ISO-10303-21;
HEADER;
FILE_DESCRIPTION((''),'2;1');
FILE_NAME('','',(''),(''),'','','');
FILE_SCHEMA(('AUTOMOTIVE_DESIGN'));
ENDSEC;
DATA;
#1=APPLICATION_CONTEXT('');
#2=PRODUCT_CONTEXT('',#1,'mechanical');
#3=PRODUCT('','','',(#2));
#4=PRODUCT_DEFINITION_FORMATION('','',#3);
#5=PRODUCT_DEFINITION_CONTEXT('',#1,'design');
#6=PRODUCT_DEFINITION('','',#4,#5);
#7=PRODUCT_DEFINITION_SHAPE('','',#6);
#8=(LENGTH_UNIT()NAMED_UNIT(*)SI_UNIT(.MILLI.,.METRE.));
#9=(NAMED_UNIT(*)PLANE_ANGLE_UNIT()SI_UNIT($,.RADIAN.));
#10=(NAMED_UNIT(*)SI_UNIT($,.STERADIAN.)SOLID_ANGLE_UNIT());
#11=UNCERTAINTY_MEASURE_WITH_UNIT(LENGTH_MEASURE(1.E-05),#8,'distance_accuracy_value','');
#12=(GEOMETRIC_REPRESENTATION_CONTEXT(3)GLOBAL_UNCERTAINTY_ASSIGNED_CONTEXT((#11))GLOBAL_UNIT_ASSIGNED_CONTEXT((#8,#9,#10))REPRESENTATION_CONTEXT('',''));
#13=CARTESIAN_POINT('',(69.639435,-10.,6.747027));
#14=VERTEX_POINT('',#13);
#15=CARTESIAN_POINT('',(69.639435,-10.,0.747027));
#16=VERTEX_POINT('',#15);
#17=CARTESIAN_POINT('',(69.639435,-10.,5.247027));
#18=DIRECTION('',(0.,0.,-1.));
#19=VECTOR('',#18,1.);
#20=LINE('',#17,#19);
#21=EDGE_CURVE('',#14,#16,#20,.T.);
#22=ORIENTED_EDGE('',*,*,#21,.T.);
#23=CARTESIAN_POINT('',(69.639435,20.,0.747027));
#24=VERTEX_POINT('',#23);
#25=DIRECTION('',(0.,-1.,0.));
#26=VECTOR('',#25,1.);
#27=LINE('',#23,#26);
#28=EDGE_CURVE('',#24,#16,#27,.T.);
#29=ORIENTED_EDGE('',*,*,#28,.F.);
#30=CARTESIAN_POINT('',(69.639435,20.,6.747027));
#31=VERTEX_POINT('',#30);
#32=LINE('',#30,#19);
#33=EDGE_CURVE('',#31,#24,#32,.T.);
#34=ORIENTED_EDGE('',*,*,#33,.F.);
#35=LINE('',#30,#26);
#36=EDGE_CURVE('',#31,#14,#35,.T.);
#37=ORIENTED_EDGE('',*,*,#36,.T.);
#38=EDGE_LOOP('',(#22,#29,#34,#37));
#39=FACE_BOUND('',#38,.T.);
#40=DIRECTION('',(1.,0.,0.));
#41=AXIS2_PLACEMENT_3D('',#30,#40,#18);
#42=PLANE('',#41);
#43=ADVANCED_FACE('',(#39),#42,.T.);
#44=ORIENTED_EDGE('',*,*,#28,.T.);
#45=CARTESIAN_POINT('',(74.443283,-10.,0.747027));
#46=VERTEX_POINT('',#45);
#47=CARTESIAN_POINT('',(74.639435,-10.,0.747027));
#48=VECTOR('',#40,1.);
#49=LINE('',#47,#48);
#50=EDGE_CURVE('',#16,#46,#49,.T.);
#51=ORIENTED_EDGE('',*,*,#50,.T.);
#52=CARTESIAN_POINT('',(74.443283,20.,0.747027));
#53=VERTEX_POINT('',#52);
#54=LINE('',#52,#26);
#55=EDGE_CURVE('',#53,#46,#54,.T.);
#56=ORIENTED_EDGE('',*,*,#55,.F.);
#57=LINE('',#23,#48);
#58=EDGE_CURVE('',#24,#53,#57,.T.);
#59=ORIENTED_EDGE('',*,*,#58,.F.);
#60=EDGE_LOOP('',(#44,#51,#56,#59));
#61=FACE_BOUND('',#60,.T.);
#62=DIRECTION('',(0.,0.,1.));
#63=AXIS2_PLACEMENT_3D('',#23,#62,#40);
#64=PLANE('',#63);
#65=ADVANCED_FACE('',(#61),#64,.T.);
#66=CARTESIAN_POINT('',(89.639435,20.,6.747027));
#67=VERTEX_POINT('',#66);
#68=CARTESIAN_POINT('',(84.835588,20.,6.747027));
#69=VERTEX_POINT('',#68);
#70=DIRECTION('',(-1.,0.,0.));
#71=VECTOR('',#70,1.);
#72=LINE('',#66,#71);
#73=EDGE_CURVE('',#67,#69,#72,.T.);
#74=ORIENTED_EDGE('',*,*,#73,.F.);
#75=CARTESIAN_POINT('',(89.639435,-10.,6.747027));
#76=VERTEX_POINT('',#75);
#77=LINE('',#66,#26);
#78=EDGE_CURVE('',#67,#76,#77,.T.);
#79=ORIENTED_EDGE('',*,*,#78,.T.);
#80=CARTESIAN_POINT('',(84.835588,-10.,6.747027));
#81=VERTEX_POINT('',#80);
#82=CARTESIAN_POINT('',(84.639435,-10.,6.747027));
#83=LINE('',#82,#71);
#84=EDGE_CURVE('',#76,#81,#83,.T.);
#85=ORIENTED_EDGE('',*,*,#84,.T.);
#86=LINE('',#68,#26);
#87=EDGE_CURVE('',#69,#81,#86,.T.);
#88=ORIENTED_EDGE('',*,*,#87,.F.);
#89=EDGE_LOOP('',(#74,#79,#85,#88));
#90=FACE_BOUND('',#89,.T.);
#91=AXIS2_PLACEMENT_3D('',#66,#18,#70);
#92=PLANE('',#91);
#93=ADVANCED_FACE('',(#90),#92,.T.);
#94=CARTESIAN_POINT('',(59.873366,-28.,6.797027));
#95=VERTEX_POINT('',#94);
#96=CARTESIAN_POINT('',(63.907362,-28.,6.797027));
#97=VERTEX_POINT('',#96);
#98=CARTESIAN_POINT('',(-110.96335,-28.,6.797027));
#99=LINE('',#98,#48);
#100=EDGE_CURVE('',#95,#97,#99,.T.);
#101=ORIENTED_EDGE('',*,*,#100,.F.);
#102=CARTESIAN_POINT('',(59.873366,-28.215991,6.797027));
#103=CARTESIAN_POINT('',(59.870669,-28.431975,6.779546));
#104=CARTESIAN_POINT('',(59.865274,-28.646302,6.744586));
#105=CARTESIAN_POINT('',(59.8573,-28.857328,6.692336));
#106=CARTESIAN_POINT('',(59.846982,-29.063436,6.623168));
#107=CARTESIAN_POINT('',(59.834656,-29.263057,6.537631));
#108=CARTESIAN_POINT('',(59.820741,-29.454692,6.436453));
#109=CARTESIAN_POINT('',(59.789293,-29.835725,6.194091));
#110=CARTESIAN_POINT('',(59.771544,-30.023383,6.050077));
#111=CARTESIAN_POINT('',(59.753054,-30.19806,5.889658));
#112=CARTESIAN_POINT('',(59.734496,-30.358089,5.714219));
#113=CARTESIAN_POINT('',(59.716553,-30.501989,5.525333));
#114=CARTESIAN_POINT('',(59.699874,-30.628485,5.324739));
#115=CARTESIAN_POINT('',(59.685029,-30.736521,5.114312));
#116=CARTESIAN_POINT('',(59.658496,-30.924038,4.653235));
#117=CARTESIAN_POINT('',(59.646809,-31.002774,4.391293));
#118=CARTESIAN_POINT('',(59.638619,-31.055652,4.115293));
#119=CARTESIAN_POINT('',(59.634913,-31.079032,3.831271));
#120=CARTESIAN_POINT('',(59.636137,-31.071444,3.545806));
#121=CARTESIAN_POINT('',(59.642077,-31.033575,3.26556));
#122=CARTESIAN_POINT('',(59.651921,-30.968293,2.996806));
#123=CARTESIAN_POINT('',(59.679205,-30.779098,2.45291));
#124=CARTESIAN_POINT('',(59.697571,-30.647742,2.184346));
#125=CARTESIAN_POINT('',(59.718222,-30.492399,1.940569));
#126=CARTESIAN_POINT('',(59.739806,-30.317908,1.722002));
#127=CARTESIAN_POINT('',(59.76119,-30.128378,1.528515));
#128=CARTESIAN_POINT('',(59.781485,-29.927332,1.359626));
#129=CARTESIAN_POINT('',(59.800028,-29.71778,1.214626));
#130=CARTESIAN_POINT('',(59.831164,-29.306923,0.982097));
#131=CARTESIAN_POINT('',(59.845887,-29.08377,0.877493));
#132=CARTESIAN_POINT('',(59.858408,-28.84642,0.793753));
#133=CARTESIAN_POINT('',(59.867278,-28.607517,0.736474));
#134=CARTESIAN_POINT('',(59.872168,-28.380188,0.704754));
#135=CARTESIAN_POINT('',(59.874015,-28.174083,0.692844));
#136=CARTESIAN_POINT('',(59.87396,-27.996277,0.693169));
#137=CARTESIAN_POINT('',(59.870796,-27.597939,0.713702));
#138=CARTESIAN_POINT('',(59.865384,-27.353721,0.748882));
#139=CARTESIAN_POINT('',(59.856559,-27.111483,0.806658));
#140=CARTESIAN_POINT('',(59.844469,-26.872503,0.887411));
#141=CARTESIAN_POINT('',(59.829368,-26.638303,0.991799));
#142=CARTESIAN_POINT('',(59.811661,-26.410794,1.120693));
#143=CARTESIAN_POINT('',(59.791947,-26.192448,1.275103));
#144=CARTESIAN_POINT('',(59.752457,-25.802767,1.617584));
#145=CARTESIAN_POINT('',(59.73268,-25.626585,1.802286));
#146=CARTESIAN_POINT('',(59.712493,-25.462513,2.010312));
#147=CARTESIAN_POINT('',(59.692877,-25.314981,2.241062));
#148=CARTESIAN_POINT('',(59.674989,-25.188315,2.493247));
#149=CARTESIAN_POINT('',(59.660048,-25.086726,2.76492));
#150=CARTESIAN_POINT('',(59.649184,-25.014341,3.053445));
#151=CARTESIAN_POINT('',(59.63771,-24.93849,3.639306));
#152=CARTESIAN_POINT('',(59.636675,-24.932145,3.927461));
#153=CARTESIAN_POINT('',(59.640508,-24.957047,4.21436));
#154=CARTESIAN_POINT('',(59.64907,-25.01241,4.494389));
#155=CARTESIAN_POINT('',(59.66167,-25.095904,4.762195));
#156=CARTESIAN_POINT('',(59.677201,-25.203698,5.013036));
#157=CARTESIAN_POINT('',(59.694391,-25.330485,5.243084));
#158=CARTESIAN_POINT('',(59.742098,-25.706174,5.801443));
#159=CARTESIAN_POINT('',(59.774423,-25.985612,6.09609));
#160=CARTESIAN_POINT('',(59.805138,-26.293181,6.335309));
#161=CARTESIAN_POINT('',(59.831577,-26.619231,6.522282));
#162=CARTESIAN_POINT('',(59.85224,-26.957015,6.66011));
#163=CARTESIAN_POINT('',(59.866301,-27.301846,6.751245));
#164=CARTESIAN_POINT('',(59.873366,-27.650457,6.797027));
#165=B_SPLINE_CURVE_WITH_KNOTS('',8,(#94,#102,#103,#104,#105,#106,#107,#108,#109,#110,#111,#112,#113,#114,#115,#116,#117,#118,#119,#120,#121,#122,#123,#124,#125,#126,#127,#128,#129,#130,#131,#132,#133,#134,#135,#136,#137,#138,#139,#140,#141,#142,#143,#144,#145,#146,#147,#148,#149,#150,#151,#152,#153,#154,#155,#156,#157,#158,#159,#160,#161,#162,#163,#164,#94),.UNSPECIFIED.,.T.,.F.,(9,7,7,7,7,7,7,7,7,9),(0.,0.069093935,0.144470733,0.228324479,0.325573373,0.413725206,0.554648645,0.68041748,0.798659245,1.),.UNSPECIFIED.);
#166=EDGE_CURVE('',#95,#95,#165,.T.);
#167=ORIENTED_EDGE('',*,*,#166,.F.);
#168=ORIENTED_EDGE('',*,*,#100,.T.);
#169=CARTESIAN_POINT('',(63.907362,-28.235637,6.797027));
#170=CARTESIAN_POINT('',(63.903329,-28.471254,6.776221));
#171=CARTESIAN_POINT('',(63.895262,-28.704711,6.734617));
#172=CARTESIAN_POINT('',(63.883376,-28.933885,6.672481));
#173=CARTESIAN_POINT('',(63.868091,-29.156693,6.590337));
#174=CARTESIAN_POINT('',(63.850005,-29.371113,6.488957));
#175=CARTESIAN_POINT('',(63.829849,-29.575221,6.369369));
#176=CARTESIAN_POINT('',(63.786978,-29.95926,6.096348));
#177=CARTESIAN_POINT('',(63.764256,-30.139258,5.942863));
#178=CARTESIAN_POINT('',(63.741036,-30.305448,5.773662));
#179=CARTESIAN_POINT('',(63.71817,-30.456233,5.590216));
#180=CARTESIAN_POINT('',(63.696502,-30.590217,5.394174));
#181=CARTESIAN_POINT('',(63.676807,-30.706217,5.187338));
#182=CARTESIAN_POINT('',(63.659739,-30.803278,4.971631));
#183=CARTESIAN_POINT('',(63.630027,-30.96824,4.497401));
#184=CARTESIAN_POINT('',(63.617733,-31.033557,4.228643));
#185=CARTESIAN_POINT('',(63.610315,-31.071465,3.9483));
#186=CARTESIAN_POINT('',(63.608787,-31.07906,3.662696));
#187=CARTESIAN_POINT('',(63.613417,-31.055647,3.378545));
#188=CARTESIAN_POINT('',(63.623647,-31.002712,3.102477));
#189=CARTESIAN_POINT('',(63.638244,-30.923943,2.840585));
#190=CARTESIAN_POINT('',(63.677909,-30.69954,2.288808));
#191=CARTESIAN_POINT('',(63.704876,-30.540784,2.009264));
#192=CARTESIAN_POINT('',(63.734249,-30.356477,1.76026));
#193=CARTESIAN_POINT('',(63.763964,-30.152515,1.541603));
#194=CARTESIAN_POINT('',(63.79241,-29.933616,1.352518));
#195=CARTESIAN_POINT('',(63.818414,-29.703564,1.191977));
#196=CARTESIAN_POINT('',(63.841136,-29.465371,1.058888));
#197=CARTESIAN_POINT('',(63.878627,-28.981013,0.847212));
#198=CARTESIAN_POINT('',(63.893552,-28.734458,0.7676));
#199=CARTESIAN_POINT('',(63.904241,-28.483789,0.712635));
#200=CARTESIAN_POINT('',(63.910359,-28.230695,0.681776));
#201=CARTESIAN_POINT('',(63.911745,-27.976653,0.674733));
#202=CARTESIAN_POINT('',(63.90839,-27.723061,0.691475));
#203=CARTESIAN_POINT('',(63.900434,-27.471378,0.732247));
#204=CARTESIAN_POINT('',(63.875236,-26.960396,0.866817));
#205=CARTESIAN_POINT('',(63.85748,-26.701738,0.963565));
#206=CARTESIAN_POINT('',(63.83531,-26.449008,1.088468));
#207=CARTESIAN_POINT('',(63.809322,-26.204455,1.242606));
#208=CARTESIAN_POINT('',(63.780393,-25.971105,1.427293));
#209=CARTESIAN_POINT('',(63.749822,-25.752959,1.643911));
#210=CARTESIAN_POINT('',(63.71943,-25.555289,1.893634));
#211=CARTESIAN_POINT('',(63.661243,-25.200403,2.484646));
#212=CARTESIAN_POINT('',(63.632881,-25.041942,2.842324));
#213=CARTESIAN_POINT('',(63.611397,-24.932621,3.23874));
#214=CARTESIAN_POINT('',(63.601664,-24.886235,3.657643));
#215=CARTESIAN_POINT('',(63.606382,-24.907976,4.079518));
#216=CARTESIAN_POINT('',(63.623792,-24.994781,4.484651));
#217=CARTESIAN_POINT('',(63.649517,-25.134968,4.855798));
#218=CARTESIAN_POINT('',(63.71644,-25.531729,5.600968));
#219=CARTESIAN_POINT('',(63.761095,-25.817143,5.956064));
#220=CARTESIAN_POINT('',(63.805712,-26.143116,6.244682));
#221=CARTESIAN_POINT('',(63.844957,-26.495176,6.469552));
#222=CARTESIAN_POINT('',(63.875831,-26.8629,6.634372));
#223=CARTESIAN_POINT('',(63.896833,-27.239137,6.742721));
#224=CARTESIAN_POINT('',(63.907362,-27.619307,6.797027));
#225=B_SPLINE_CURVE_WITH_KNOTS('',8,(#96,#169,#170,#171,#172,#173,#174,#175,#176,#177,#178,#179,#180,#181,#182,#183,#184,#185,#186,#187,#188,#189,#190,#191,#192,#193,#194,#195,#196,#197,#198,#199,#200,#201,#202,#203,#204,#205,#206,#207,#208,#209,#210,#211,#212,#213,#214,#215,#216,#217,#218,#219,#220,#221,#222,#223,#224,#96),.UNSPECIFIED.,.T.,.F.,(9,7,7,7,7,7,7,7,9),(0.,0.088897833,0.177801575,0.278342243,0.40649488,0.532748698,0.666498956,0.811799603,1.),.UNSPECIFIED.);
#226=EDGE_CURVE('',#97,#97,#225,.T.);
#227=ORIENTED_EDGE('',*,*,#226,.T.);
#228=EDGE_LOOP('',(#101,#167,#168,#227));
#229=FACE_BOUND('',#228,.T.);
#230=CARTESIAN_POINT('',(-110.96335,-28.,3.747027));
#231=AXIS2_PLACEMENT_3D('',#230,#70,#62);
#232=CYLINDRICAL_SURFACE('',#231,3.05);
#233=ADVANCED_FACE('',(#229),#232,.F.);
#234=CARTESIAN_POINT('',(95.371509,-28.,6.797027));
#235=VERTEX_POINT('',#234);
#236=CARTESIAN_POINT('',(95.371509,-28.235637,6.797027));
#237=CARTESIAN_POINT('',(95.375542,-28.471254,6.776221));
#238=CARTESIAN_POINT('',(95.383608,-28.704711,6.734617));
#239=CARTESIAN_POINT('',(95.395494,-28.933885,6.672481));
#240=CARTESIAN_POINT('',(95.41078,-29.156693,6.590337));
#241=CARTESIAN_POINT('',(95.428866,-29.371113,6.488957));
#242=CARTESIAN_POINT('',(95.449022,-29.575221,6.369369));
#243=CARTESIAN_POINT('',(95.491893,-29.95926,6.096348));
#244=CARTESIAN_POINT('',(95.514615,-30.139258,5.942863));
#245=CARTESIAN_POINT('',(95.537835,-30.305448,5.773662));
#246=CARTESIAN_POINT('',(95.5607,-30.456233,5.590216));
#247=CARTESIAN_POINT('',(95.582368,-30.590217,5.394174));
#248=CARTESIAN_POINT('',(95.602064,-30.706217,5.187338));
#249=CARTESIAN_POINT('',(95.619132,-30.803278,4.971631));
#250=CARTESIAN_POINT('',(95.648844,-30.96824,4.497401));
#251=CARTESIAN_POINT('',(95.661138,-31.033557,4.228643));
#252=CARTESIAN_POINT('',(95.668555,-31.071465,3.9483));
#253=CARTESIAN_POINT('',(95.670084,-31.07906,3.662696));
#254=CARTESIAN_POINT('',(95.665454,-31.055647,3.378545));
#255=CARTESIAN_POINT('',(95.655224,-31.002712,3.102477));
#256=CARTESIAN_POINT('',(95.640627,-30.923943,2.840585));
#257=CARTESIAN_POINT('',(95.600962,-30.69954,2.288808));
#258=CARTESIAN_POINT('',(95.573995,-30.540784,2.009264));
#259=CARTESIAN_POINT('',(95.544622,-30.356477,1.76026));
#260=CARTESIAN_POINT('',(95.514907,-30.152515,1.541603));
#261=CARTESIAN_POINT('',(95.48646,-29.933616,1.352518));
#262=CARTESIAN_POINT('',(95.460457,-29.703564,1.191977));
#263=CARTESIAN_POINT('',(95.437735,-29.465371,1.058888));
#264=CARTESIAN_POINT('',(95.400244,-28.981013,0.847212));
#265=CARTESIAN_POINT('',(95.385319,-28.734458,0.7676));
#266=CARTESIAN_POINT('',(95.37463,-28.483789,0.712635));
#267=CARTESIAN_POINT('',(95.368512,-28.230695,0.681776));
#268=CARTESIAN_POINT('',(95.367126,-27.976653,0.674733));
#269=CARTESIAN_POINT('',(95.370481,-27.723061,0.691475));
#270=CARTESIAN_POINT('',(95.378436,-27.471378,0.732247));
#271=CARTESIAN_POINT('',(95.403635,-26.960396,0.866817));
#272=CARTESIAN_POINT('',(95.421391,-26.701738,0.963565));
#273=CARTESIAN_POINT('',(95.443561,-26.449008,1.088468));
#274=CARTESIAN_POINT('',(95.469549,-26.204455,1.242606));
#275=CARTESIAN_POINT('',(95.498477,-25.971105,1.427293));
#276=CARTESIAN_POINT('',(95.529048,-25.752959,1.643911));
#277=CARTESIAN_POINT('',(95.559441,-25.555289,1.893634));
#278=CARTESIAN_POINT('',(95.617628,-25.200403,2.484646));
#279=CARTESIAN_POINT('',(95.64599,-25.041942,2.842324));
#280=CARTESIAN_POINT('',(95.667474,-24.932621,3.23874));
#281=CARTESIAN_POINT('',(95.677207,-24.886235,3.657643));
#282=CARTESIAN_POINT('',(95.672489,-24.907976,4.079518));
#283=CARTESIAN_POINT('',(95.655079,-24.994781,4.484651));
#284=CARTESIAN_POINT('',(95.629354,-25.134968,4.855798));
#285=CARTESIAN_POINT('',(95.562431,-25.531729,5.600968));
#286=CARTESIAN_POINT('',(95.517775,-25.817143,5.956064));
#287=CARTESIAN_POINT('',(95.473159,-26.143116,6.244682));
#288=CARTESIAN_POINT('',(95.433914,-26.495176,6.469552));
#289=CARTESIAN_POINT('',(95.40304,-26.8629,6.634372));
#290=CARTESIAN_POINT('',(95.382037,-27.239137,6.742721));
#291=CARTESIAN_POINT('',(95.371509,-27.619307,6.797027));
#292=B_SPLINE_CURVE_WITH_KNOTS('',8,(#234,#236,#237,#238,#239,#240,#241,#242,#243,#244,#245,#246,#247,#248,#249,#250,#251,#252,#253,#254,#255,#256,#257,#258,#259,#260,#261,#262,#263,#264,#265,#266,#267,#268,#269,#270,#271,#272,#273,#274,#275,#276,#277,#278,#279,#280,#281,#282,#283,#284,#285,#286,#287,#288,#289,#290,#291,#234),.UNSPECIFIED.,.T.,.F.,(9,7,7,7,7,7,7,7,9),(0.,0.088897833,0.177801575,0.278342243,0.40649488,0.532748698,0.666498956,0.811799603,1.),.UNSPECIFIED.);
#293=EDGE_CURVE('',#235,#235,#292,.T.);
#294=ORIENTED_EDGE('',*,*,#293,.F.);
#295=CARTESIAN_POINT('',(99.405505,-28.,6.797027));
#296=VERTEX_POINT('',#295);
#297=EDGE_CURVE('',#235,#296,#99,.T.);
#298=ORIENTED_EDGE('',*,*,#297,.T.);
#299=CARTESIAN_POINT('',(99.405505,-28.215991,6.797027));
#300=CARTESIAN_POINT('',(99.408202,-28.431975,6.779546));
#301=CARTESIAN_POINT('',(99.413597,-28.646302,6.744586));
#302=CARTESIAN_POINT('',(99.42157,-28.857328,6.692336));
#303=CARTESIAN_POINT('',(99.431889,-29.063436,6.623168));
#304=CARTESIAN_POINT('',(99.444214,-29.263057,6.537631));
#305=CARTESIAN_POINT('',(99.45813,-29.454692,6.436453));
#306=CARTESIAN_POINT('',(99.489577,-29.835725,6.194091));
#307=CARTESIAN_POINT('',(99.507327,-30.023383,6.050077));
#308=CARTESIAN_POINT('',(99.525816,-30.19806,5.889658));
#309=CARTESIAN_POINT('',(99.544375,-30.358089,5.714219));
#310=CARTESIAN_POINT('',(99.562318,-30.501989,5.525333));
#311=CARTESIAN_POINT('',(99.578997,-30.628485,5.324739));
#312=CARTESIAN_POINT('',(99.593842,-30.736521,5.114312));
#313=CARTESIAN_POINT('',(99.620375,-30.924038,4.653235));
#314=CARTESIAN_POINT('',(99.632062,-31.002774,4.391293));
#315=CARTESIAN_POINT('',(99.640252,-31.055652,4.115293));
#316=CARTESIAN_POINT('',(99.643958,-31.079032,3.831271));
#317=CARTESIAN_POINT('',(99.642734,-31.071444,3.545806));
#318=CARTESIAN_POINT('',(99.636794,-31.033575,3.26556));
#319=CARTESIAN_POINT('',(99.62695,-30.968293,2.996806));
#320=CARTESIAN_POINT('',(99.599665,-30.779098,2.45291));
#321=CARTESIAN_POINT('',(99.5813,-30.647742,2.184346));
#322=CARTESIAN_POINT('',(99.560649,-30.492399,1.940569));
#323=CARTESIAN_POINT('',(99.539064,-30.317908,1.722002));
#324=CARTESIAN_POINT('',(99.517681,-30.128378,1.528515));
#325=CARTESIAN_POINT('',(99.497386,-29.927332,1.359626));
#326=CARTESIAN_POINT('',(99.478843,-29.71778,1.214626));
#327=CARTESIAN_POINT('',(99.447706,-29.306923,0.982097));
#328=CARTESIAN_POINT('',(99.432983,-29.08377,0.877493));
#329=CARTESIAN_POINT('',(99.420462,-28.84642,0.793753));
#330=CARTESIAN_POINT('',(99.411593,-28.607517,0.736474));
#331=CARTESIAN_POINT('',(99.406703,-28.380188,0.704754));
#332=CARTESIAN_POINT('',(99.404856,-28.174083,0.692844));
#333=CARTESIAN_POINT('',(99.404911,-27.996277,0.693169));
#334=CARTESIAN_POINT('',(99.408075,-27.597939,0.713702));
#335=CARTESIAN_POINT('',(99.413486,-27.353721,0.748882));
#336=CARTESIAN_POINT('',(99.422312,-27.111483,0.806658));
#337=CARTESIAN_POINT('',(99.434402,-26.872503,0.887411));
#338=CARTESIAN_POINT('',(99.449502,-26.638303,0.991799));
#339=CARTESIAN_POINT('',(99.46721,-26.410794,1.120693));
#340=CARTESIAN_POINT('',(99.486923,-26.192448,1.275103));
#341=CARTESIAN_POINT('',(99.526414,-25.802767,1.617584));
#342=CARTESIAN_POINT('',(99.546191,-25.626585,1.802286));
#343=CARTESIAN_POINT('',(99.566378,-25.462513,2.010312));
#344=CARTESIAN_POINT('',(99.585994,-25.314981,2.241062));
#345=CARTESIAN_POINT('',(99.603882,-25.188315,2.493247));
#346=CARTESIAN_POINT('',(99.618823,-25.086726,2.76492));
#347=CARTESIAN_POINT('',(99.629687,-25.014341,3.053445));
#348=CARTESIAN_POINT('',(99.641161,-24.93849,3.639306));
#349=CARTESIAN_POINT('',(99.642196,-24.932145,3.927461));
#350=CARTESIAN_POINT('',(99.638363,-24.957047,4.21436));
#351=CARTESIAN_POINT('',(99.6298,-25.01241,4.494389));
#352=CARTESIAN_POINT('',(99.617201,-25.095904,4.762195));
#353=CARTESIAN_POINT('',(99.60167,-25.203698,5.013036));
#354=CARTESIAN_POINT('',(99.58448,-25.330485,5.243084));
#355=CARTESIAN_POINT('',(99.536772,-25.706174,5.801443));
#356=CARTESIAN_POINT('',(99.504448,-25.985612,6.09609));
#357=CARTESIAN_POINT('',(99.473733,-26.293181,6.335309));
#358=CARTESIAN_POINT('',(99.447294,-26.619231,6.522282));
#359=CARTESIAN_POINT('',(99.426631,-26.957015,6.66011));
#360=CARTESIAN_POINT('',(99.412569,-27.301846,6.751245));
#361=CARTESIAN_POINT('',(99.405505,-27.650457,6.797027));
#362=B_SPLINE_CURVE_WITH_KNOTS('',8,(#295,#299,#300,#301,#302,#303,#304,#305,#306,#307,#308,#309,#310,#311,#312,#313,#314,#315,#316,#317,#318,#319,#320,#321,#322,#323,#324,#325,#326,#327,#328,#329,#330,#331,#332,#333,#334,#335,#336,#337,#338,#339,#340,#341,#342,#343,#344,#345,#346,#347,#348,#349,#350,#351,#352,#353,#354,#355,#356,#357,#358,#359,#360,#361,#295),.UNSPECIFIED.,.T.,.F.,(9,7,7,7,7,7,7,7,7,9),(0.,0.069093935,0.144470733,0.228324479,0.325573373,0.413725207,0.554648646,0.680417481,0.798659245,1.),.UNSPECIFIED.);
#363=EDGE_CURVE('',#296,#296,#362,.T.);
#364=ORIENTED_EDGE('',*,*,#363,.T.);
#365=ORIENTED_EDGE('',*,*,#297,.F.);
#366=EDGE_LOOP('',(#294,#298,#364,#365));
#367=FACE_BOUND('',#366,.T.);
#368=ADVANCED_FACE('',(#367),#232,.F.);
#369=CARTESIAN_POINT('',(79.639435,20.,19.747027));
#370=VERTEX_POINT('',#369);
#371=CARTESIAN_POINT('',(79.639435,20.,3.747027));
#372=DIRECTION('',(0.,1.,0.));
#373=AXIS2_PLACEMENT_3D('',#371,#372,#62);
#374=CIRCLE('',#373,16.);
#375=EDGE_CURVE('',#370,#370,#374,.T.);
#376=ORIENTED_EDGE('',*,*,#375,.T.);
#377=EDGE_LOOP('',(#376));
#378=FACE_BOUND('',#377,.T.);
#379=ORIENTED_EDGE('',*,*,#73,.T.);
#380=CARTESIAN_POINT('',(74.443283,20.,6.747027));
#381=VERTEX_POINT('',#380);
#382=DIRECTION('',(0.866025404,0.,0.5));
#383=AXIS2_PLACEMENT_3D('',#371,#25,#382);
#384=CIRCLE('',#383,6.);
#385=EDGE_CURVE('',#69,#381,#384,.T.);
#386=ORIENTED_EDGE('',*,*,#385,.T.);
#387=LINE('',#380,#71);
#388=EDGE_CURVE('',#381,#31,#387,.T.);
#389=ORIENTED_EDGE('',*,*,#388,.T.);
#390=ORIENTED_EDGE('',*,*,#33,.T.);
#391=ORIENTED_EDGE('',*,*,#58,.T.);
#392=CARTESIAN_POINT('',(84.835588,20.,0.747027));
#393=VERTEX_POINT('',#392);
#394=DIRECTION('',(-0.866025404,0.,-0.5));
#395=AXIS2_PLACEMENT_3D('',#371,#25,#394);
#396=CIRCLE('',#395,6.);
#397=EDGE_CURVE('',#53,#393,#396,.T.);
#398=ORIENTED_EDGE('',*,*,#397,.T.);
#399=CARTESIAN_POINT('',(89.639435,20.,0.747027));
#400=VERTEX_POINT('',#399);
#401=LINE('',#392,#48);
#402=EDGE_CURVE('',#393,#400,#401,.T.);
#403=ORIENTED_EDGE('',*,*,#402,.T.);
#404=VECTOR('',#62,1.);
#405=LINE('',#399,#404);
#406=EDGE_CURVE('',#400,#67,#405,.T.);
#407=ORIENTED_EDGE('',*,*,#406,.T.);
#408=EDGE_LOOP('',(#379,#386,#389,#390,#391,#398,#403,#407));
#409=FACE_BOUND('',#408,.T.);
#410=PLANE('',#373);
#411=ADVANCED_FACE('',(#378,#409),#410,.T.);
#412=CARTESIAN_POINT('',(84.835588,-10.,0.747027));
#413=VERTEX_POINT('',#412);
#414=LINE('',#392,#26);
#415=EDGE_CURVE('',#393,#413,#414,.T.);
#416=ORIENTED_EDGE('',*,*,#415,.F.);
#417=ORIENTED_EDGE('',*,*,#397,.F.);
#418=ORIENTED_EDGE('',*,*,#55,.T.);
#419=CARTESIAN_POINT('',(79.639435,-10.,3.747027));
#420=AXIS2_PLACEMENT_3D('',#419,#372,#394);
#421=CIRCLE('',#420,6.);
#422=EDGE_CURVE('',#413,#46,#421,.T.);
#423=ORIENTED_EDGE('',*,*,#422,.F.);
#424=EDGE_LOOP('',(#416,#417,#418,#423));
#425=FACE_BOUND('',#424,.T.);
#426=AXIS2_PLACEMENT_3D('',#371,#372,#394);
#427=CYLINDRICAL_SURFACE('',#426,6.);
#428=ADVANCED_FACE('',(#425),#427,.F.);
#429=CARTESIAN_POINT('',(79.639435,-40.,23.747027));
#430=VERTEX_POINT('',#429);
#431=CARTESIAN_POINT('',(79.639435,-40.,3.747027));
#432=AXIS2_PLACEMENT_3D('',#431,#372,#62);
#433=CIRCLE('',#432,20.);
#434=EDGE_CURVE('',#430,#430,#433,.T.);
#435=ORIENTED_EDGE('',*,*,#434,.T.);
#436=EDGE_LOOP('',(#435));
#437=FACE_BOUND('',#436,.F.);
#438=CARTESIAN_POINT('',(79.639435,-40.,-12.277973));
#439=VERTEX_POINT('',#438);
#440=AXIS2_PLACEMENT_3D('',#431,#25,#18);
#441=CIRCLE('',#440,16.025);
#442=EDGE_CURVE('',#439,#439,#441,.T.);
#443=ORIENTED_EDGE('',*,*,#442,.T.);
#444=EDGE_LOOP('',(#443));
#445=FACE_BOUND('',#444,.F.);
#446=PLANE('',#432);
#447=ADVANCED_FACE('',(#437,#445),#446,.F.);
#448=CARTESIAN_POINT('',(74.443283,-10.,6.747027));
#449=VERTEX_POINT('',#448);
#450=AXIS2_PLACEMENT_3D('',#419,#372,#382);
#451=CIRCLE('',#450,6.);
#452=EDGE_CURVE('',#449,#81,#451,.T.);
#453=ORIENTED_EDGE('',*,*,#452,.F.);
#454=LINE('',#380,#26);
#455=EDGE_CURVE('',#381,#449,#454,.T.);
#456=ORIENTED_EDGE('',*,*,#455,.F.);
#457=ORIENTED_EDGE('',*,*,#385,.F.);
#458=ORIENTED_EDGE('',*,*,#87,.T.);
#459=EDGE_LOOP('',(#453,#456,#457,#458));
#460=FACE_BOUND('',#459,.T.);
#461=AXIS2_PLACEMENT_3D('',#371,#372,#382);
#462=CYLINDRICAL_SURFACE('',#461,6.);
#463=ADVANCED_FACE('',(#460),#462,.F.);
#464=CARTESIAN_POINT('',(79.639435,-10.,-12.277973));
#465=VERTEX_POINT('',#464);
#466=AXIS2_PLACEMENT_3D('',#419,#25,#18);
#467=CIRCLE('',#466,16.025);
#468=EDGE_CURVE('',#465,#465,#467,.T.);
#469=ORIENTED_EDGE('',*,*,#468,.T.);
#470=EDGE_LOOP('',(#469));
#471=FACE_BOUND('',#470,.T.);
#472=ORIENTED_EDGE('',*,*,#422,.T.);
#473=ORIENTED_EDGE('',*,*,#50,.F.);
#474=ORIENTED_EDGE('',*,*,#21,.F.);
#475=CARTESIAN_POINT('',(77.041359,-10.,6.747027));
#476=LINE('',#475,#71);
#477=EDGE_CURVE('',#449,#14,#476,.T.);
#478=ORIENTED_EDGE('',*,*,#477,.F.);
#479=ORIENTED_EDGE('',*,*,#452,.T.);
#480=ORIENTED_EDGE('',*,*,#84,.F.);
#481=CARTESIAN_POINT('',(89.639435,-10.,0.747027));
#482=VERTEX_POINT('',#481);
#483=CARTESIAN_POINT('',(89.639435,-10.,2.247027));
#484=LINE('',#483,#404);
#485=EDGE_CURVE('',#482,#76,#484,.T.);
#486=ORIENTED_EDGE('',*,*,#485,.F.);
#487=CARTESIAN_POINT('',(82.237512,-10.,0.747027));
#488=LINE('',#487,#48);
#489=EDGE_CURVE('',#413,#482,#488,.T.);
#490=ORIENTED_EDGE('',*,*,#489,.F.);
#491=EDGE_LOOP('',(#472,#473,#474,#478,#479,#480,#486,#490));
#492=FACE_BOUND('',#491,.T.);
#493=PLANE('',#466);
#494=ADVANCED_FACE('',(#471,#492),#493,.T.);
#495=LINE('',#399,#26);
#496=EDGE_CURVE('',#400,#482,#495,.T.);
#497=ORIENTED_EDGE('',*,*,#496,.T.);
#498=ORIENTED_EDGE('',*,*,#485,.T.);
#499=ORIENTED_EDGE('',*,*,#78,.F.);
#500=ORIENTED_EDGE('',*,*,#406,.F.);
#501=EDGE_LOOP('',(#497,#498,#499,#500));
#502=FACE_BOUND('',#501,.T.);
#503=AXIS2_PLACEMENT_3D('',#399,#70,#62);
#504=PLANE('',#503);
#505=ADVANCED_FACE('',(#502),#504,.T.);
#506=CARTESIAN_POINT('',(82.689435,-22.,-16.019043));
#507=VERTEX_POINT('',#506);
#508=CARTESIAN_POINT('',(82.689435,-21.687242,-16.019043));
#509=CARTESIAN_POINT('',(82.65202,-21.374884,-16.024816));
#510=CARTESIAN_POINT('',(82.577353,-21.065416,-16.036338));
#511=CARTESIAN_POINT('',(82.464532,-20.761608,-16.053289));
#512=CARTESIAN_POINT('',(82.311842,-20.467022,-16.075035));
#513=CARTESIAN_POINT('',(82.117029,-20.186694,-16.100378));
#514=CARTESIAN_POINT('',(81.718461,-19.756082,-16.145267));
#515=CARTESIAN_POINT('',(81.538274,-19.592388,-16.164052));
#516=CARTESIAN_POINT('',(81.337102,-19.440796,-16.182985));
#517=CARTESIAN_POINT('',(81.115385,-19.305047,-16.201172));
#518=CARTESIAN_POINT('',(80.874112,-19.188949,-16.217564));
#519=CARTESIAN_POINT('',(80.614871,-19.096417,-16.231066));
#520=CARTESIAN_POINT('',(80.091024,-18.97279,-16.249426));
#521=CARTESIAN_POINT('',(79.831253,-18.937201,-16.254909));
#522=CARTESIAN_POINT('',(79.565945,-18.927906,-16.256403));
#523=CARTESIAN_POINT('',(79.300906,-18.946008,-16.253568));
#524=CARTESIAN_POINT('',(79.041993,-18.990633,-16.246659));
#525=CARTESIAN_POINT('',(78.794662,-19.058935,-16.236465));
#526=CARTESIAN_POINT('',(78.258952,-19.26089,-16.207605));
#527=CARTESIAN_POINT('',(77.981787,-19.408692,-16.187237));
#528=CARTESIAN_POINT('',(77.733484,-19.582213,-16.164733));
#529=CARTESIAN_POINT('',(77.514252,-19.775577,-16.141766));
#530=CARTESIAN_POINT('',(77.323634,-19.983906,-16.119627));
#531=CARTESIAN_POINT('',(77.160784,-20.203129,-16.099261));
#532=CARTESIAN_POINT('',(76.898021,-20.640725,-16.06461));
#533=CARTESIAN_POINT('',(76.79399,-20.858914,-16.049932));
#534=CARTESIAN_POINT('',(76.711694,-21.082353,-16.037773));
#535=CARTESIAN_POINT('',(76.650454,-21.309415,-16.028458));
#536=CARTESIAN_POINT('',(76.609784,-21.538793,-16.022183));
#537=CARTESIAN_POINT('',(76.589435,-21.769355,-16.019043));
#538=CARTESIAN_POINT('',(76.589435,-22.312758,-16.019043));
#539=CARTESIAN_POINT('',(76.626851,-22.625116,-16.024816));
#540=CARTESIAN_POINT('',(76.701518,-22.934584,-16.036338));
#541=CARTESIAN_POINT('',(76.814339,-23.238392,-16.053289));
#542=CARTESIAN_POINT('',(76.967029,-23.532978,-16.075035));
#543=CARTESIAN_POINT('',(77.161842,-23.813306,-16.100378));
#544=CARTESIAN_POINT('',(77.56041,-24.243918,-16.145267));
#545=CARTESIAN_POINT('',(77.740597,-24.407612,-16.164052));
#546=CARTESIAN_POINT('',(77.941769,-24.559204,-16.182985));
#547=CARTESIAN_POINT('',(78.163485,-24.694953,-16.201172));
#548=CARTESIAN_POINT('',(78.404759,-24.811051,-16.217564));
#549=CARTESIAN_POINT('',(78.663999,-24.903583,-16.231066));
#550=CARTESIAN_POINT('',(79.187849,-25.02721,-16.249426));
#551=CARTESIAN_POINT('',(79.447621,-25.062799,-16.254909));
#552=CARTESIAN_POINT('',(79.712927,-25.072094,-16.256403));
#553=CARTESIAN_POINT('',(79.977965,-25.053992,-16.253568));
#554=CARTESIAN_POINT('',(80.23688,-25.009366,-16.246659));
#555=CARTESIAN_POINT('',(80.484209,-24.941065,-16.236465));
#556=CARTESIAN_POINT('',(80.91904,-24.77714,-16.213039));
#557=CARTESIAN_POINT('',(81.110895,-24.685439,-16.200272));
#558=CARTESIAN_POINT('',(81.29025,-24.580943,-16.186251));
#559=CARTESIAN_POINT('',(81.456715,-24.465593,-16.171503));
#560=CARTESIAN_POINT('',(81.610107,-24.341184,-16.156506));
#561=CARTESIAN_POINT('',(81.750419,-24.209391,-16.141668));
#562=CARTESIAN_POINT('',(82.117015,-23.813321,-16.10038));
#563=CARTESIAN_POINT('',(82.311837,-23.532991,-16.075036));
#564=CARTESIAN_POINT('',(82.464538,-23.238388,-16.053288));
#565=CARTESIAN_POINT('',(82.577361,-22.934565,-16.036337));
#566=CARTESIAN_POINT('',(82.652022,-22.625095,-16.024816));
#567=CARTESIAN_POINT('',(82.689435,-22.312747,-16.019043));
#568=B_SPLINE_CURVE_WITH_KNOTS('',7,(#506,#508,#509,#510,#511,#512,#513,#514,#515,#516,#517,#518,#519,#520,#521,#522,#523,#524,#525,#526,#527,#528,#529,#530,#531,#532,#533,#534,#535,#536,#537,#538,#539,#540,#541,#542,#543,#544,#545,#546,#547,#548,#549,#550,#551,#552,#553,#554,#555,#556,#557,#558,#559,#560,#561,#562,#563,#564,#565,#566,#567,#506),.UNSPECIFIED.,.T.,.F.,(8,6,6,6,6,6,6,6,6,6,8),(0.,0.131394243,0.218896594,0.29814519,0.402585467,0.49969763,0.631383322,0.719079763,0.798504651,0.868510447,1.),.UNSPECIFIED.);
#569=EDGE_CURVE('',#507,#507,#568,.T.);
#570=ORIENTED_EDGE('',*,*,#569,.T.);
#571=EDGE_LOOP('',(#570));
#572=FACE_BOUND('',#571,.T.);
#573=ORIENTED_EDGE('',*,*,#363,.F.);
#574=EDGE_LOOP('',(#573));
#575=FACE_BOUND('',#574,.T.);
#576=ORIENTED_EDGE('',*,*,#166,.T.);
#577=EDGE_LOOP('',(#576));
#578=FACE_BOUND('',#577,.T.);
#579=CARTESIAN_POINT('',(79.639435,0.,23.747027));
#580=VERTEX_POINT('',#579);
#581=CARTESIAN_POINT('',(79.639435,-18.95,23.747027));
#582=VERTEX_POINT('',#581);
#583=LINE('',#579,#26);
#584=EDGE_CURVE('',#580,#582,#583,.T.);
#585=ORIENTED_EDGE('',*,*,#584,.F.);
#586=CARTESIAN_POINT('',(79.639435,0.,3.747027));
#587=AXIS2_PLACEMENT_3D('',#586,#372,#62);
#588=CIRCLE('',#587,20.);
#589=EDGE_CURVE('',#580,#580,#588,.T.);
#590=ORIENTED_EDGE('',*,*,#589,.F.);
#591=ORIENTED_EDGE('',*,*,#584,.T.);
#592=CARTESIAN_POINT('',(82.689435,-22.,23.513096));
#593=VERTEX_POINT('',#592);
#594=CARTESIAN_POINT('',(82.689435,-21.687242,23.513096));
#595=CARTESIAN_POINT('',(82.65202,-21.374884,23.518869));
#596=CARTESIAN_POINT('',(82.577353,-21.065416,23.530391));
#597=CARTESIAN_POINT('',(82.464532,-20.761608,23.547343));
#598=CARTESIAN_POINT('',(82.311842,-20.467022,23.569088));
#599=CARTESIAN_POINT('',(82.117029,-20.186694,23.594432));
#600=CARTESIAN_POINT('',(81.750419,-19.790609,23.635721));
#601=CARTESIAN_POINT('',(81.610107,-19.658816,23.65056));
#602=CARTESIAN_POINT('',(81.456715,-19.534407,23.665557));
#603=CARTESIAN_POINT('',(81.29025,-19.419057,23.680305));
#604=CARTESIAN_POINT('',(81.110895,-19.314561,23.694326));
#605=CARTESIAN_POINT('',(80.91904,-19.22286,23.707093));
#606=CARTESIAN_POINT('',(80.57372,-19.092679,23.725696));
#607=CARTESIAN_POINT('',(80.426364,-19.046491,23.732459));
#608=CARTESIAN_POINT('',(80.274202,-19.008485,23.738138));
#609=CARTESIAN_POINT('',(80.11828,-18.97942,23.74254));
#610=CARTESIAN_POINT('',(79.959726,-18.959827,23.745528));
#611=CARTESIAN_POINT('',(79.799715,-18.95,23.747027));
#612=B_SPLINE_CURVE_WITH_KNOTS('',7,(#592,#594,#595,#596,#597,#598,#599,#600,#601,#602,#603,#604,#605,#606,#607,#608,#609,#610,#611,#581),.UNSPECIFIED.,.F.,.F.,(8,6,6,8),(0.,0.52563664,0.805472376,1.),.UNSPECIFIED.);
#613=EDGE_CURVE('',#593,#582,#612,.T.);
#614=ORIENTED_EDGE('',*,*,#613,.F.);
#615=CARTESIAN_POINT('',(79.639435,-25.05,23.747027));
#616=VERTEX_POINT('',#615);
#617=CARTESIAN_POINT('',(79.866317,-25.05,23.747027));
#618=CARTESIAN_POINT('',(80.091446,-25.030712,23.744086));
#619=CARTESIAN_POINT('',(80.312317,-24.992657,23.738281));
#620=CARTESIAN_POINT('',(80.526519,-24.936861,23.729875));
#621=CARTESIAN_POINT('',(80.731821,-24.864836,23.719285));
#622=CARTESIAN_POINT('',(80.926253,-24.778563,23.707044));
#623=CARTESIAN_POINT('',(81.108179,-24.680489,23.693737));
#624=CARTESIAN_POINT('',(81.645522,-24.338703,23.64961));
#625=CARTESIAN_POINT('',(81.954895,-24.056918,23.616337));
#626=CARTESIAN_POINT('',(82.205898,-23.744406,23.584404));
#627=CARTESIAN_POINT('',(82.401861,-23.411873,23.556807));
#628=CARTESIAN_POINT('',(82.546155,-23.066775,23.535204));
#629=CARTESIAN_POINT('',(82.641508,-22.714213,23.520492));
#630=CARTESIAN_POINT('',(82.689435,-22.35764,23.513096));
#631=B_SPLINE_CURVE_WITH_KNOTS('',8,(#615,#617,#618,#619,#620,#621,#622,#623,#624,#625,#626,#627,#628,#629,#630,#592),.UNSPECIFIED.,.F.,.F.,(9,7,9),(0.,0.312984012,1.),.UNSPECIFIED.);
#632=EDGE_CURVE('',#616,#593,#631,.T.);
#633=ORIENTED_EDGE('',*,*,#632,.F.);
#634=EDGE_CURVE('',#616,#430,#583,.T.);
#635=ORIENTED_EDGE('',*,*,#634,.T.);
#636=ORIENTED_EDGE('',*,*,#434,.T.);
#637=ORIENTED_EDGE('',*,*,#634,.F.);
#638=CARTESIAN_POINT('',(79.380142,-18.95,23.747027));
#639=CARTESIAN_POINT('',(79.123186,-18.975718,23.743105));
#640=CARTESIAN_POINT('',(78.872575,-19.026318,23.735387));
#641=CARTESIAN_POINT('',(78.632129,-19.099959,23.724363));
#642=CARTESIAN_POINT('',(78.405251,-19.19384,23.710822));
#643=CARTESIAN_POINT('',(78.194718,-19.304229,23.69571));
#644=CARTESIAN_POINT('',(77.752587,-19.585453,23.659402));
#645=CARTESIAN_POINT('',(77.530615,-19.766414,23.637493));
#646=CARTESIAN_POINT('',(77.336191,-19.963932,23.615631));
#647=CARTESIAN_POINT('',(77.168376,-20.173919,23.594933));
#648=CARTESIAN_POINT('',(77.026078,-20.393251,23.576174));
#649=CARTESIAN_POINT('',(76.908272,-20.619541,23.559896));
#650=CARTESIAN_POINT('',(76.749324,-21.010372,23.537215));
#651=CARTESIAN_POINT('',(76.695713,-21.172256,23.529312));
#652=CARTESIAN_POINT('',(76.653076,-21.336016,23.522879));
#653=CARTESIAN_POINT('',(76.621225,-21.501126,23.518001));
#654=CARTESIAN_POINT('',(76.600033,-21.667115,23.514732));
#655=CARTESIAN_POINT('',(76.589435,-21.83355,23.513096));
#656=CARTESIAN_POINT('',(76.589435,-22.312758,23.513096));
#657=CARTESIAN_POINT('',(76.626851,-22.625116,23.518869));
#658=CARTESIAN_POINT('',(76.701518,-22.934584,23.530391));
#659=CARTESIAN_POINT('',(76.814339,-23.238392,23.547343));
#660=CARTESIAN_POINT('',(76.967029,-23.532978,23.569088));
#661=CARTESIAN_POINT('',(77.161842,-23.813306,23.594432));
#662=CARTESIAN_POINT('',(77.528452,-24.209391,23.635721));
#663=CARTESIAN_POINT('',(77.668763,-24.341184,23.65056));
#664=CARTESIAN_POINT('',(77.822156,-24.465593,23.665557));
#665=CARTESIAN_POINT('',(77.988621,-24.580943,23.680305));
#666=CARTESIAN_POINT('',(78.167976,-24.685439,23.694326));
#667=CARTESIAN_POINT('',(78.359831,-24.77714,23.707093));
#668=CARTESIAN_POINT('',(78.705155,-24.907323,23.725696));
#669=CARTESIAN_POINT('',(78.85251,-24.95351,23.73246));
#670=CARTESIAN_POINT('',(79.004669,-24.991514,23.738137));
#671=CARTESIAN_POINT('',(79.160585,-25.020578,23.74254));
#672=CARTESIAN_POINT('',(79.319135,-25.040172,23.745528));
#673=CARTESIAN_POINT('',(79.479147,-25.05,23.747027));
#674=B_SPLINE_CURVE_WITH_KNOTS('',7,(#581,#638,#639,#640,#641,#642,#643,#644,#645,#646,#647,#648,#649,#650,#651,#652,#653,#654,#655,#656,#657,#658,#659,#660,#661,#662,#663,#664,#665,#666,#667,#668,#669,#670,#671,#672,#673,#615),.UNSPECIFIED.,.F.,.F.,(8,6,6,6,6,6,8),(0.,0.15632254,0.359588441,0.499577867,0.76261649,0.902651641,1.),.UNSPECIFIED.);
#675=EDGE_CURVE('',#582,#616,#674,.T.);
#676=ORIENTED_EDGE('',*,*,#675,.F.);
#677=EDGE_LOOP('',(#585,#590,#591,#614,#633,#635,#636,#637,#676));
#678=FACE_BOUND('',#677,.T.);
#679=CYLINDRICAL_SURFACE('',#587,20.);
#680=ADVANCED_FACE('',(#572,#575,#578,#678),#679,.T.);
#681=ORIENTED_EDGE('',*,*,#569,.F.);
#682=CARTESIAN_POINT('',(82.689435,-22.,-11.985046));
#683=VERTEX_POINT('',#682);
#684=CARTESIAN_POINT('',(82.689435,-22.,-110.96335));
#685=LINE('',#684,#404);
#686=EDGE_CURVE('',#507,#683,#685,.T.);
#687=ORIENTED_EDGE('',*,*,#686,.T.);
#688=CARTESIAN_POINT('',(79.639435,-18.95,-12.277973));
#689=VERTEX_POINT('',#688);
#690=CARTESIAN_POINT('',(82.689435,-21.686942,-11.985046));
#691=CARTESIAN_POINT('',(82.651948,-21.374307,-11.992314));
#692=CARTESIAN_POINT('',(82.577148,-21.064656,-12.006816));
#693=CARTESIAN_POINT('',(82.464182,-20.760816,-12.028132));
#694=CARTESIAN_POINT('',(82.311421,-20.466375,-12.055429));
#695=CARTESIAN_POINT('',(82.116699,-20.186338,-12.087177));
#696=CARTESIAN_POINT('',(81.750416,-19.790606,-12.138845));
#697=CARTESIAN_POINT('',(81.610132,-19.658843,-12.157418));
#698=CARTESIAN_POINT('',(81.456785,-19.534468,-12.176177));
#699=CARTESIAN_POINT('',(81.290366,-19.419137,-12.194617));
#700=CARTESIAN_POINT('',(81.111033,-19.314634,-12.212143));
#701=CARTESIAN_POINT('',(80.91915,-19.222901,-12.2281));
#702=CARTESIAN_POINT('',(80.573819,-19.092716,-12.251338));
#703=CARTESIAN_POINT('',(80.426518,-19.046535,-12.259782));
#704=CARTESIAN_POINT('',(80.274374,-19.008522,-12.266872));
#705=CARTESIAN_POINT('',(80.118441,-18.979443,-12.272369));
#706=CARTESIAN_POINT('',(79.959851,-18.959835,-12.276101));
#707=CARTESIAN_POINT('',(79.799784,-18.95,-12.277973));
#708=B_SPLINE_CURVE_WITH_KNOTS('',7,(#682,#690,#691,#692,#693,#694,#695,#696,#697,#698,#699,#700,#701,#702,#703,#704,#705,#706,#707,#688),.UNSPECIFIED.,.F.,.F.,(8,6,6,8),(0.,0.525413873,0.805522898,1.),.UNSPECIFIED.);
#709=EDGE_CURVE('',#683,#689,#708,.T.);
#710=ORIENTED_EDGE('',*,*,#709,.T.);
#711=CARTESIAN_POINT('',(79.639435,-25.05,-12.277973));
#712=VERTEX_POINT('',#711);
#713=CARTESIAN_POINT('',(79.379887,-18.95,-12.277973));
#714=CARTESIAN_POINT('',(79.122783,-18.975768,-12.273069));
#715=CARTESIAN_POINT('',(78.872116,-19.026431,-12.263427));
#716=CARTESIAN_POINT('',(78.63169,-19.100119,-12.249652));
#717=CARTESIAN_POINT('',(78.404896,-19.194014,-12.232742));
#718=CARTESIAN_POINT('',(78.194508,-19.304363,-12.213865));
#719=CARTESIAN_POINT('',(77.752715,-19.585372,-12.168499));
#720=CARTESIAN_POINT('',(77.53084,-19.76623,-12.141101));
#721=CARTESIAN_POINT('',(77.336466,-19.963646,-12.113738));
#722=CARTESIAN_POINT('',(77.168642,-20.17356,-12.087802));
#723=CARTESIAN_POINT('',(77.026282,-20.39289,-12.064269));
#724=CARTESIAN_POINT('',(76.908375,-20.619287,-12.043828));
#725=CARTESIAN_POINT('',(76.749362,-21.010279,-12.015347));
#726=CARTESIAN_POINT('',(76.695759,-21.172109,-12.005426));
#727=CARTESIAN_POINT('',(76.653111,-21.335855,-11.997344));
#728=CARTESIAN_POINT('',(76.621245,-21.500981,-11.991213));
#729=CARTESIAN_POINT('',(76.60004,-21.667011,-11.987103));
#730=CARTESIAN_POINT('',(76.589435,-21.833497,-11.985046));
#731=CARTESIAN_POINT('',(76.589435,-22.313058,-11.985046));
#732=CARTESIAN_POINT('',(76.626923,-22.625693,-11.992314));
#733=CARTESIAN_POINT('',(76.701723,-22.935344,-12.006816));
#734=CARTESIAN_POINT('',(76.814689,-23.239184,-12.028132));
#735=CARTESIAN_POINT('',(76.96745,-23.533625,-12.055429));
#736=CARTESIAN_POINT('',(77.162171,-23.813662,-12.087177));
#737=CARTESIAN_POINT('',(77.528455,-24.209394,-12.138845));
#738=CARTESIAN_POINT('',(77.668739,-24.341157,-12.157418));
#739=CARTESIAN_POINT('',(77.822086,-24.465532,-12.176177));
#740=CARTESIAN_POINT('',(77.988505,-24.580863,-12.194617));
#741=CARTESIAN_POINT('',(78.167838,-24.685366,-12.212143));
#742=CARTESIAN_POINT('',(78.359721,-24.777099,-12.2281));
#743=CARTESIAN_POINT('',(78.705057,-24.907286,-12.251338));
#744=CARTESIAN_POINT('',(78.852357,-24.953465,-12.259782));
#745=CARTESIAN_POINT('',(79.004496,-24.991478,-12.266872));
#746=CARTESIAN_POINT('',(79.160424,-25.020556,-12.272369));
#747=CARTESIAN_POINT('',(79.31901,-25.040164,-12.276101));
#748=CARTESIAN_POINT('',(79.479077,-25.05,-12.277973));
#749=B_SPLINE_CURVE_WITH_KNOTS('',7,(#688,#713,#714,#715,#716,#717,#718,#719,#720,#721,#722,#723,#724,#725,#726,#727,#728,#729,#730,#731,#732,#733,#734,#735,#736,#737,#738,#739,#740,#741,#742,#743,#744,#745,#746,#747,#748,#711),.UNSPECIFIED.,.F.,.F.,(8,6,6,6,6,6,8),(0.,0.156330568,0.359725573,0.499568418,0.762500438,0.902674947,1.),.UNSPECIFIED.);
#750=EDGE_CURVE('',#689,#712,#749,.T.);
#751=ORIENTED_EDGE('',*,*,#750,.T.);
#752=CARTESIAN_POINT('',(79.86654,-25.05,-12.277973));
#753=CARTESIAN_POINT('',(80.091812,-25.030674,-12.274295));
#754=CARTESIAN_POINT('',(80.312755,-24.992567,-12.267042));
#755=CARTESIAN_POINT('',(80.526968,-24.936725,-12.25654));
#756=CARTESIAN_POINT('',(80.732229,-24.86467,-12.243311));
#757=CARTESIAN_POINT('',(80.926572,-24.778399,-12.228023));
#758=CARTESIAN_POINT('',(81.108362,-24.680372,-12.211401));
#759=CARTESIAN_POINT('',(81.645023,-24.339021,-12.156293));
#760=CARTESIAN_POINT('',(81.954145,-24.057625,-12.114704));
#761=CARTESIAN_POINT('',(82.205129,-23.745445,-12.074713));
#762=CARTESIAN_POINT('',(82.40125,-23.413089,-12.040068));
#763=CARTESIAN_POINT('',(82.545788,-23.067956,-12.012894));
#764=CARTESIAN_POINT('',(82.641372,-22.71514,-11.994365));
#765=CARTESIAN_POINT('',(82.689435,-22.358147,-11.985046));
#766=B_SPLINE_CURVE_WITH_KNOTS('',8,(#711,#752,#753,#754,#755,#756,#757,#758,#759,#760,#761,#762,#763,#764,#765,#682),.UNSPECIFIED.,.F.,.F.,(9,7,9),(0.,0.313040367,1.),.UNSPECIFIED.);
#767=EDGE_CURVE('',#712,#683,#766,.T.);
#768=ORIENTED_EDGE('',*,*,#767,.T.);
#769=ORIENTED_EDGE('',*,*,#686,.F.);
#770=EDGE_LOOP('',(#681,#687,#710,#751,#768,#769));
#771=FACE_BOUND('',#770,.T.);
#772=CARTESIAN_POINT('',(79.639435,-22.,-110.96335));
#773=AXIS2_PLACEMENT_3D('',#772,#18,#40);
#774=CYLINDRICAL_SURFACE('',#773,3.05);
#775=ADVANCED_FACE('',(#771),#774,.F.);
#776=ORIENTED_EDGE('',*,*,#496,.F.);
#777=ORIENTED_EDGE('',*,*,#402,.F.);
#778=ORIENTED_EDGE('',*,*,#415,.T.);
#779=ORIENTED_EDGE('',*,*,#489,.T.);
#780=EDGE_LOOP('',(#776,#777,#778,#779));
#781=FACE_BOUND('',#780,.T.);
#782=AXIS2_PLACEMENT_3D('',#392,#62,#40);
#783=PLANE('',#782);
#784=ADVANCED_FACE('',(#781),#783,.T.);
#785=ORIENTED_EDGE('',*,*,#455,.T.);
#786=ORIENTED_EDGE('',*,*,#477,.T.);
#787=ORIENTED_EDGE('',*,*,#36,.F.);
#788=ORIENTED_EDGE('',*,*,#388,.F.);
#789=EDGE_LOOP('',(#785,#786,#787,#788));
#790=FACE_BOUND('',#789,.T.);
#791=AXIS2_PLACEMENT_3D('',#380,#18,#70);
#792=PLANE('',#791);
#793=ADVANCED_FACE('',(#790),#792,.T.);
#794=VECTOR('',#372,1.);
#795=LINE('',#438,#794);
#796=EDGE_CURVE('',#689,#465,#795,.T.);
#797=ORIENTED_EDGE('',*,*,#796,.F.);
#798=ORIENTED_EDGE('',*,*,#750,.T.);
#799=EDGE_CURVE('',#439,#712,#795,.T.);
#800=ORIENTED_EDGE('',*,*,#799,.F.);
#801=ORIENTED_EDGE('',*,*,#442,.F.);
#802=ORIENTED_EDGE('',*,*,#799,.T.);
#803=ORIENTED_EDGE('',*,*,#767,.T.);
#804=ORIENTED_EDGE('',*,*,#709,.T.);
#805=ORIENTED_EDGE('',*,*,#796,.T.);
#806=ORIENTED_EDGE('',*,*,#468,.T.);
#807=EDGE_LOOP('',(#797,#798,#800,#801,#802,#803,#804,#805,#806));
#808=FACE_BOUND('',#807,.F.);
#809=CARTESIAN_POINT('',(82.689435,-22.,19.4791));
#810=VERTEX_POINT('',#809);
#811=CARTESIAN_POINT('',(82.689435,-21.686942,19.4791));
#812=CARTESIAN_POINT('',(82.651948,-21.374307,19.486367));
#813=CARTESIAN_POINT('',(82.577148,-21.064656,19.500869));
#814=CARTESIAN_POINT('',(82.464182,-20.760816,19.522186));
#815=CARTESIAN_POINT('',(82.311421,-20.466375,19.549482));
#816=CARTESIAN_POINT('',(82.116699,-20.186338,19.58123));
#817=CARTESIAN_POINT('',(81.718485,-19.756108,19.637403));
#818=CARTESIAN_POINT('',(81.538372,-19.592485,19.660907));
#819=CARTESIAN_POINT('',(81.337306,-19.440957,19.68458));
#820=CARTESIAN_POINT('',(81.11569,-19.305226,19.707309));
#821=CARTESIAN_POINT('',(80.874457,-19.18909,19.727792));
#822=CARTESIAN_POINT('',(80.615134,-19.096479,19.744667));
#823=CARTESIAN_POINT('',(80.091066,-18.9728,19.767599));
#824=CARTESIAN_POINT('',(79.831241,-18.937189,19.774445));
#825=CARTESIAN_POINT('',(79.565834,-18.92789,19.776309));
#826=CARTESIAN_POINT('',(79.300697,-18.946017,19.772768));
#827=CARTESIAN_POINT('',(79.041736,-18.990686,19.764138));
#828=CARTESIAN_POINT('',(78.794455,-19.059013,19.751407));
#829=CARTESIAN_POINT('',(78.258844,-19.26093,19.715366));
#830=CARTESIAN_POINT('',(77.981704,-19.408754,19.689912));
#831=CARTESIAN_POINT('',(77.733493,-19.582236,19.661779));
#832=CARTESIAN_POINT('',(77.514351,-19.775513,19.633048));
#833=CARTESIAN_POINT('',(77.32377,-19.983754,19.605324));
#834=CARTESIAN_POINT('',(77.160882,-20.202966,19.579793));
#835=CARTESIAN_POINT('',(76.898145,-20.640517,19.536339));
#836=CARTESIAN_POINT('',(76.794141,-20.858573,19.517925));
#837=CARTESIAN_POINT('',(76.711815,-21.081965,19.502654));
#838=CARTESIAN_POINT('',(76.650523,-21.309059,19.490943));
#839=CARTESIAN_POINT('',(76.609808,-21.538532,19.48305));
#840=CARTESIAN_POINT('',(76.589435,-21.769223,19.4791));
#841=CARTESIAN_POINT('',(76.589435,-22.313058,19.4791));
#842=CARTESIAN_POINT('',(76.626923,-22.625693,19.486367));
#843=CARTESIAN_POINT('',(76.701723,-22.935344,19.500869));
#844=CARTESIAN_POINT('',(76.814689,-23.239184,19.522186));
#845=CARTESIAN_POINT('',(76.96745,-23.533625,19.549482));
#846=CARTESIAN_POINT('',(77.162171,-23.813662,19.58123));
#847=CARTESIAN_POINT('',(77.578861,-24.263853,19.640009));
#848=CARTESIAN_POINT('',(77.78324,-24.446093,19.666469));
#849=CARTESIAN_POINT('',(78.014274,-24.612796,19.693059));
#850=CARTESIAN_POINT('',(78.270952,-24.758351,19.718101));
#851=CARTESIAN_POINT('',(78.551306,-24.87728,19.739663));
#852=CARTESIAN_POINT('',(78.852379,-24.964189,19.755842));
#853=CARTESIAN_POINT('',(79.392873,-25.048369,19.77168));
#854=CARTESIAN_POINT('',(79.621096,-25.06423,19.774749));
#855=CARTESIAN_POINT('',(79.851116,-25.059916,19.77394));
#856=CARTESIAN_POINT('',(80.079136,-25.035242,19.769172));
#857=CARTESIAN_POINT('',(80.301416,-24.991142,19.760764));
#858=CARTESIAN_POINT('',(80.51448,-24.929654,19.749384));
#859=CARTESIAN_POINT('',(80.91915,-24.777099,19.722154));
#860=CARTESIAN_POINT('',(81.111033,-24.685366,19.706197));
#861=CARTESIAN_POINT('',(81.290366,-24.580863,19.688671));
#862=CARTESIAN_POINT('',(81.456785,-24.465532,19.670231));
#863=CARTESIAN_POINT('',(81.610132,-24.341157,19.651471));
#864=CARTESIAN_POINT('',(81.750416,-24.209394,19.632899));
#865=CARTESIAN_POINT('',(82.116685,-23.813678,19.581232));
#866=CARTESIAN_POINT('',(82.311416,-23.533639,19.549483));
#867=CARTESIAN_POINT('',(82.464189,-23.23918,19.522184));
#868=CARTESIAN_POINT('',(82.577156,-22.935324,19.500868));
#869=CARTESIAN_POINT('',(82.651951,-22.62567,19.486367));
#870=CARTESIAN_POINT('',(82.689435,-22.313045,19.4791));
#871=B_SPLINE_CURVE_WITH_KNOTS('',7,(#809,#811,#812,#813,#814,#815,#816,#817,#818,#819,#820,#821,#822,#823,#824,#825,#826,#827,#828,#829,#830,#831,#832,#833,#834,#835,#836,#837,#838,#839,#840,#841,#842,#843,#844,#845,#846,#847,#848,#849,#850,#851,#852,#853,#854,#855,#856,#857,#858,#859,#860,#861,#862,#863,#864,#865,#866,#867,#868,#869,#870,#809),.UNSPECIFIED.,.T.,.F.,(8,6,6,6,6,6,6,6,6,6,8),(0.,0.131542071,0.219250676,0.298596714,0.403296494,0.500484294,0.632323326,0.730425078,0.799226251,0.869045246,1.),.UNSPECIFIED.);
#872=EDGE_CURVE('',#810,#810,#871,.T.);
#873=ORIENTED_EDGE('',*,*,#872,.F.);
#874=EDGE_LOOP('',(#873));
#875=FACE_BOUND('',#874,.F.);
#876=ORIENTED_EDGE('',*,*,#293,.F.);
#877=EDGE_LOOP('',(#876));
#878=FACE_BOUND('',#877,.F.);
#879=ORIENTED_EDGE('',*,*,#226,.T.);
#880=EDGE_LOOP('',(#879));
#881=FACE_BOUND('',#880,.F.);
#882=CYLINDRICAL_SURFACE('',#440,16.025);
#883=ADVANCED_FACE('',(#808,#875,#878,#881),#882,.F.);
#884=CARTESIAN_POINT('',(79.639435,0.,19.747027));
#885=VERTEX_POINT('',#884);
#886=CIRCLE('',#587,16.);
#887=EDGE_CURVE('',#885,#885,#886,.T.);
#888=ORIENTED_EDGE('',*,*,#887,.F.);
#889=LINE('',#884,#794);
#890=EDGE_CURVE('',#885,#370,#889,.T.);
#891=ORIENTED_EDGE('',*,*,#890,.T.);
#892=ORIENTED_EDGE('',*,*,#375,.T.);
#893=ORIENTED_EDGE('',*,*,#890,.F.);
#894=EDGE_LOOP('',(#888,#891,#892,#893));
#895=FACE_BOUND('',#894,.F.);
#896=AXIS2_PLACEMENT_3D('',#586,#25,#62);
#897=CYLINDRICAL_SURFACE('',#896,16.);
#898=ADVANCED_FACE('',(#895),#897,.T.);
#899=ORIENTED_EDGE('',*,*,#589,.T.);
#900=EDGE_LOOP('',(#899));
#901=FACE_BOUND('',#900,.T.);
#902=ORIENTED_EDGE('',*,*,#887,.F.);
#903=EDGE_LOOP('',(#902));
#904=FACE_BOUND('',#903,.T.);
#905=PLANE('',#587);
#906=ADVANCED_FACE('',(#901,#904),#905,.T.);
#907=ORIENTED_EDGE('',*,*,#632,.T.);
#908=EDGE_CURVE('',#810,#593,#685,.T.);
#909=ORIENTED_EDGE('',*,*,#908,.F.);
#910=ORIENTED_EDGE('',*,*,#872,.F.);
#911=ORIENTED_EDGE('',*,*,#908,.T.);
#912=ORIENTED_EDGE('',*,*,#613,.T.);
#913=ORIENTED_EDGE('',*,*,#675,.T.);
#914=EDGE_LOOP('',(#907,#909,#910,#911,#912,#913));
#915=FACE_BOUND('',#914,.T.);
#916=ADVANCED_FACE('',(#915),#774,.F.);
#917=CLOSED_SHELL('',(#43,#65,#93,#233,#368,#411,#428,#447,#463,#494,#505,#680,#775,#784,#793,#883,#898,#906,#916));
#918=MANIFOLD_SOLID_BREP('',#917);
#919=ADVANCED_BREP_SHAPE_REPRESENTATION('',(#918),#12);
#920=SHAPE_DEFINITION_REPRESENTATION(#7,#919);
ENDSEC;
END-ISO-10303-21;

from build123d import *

# Parameters (mm, degrees)
SKETCH_8_R               = 16
EXTRUDE_3_DEPTH          = 20
SKETCH_8_4_R             = 20
EXTRUDE_4_DEPTH          = 40
CUT_EXTRUDE_6_REACH      = 120.709
CUT_EXTRUDE_7_DEPTH      = 110.963350072
CUT_EXTRUDE_7_DEPTH_BACK = 110.963350072
SKETCH_11_R              = 3.05
SKETCH_12_R              = 16.025
CUT_EXTRUDE_8_DEPTH      = 30
CUT_EXTRUDE_9_DEPTH      = 110.963350224
CUT_EXTRUDE_9_DEPTH_BACK = 110.963350224
SKETCH_14_R              = 3.05


with BuildPart() as part:
    # 草图8 → 凸台-拉伸3 (new body)
    with BuildSketch(Plane(origin=(0, 0, 0), x_dir=(1, 0, 0), z_dir=(0, 1, 0))):
        with Locations((79.639435379, -3.747026688)):
            Circle(SKETCH_8_R)
    extrude(amount=EXTRUDE_3_DEPTH)

    # 草图8<4> → 凸台-拉伸4 (add)
    with BuildSketch(Plane(origin=(0, 0, 0), x_dir=(1, 0, 0), z_dir=(0, 1, 0))):
        with Locations((79.639435379, -3.747026688)):
            Circle(SKETCH_8_4_R)
    extrude(amount=-EXTRUDE_4_DEPTH)

    # 草图10 → 切除-拉伸6 (cut, up to next)
    with BuildSketch(Plane(origin=(0, 20, 0), x_dir=(1, 0, 0), z_dir=(0, 1, 0)), mode=Mode.PRIVATE) as cut_extrude_6_sk1:
        with BuildLine():
            Line((84.835587801, -0.747026688), (89.639435379, -0.747026688))
            Line((89.639435379, -0.747026688), (89.639435379, -6.747026688))
            Line((89.639435379, -6.747026688), (84.835587801, -6.747026688))
            ThreePointArc((84.835587801, -6.747026688), (79.639435379, -9.747026688), (74.443282956, -6.747026688))
            Line((74.443282956, -6.747026688), (69.639435379, -6.747026688))
            Line((69.639435379, -6.747026688), (69.639435379, -0.747026688))
            Line((69.639435379, -0.747026688), (74.443282956, -0.747026688))
            ThreePointArc((74.443282956, -0.747026688), (79.639435379, 2.252973312), (84.835587801, -0.747026688))
        make_face()
    cut_extrude_6_tool1 = extrude(cut_extrude_6_sk1.sketch, amount=-CUT_EXTRUDE_6_REACH, mode=Mode.PRIVATE) & part.part
    add(cut_extrude_6_tool1.solids().sort_by_distance((79.639435, 20, 3.747027))[0], mode=Mode.SUBTRACT)

    # 草图11 → 切除-拉伸7 (cut, two sides: drawn at the far end of the back side and taken through both)
    with BuildSketch(Plane.XY.offset(-CUT_EXTRUDE_7_DEPTH_BACK)):
        with Locations((79.639435379, -22)):
            Circle(SKETCH_11_R)
    extrude(amount=CUT_EXTRUDE_7_DEPTH + CUT_EXTRUDE_7_DEPTH_BACK, mode=Mode.SUBTRACT)

    # 草图12 → 切除-拉伸8 (cut)
    with BuildSketch(Plane.XZ.offset(40)):
        with Locations((79.639435379, 3.747026688)):
            Circle(SKETCH_12_R)
    extrude(amount=-CUT_EXTRUDE_8_DEPTH, mode=Mode.SUBTRACT)

    # 草图14 → 切除-拉伸9 (cut, two sides: drawn at the far end of the back side and taken through both)
    with BuildSketch(Plane.YZ.offset(-CUT_EXTRUDE_9_DEPTH_BACK)):
        with Locations((-28, 3.747026688)):
            Circle(SKETCH_14_R)
    extrude(amount=CUT_EXTRUDE_9_DEPTH + CUT_EXTRUDE_9_DEPTH_BACK, mode=Mode.SUBTRACT)


solid = part.part
